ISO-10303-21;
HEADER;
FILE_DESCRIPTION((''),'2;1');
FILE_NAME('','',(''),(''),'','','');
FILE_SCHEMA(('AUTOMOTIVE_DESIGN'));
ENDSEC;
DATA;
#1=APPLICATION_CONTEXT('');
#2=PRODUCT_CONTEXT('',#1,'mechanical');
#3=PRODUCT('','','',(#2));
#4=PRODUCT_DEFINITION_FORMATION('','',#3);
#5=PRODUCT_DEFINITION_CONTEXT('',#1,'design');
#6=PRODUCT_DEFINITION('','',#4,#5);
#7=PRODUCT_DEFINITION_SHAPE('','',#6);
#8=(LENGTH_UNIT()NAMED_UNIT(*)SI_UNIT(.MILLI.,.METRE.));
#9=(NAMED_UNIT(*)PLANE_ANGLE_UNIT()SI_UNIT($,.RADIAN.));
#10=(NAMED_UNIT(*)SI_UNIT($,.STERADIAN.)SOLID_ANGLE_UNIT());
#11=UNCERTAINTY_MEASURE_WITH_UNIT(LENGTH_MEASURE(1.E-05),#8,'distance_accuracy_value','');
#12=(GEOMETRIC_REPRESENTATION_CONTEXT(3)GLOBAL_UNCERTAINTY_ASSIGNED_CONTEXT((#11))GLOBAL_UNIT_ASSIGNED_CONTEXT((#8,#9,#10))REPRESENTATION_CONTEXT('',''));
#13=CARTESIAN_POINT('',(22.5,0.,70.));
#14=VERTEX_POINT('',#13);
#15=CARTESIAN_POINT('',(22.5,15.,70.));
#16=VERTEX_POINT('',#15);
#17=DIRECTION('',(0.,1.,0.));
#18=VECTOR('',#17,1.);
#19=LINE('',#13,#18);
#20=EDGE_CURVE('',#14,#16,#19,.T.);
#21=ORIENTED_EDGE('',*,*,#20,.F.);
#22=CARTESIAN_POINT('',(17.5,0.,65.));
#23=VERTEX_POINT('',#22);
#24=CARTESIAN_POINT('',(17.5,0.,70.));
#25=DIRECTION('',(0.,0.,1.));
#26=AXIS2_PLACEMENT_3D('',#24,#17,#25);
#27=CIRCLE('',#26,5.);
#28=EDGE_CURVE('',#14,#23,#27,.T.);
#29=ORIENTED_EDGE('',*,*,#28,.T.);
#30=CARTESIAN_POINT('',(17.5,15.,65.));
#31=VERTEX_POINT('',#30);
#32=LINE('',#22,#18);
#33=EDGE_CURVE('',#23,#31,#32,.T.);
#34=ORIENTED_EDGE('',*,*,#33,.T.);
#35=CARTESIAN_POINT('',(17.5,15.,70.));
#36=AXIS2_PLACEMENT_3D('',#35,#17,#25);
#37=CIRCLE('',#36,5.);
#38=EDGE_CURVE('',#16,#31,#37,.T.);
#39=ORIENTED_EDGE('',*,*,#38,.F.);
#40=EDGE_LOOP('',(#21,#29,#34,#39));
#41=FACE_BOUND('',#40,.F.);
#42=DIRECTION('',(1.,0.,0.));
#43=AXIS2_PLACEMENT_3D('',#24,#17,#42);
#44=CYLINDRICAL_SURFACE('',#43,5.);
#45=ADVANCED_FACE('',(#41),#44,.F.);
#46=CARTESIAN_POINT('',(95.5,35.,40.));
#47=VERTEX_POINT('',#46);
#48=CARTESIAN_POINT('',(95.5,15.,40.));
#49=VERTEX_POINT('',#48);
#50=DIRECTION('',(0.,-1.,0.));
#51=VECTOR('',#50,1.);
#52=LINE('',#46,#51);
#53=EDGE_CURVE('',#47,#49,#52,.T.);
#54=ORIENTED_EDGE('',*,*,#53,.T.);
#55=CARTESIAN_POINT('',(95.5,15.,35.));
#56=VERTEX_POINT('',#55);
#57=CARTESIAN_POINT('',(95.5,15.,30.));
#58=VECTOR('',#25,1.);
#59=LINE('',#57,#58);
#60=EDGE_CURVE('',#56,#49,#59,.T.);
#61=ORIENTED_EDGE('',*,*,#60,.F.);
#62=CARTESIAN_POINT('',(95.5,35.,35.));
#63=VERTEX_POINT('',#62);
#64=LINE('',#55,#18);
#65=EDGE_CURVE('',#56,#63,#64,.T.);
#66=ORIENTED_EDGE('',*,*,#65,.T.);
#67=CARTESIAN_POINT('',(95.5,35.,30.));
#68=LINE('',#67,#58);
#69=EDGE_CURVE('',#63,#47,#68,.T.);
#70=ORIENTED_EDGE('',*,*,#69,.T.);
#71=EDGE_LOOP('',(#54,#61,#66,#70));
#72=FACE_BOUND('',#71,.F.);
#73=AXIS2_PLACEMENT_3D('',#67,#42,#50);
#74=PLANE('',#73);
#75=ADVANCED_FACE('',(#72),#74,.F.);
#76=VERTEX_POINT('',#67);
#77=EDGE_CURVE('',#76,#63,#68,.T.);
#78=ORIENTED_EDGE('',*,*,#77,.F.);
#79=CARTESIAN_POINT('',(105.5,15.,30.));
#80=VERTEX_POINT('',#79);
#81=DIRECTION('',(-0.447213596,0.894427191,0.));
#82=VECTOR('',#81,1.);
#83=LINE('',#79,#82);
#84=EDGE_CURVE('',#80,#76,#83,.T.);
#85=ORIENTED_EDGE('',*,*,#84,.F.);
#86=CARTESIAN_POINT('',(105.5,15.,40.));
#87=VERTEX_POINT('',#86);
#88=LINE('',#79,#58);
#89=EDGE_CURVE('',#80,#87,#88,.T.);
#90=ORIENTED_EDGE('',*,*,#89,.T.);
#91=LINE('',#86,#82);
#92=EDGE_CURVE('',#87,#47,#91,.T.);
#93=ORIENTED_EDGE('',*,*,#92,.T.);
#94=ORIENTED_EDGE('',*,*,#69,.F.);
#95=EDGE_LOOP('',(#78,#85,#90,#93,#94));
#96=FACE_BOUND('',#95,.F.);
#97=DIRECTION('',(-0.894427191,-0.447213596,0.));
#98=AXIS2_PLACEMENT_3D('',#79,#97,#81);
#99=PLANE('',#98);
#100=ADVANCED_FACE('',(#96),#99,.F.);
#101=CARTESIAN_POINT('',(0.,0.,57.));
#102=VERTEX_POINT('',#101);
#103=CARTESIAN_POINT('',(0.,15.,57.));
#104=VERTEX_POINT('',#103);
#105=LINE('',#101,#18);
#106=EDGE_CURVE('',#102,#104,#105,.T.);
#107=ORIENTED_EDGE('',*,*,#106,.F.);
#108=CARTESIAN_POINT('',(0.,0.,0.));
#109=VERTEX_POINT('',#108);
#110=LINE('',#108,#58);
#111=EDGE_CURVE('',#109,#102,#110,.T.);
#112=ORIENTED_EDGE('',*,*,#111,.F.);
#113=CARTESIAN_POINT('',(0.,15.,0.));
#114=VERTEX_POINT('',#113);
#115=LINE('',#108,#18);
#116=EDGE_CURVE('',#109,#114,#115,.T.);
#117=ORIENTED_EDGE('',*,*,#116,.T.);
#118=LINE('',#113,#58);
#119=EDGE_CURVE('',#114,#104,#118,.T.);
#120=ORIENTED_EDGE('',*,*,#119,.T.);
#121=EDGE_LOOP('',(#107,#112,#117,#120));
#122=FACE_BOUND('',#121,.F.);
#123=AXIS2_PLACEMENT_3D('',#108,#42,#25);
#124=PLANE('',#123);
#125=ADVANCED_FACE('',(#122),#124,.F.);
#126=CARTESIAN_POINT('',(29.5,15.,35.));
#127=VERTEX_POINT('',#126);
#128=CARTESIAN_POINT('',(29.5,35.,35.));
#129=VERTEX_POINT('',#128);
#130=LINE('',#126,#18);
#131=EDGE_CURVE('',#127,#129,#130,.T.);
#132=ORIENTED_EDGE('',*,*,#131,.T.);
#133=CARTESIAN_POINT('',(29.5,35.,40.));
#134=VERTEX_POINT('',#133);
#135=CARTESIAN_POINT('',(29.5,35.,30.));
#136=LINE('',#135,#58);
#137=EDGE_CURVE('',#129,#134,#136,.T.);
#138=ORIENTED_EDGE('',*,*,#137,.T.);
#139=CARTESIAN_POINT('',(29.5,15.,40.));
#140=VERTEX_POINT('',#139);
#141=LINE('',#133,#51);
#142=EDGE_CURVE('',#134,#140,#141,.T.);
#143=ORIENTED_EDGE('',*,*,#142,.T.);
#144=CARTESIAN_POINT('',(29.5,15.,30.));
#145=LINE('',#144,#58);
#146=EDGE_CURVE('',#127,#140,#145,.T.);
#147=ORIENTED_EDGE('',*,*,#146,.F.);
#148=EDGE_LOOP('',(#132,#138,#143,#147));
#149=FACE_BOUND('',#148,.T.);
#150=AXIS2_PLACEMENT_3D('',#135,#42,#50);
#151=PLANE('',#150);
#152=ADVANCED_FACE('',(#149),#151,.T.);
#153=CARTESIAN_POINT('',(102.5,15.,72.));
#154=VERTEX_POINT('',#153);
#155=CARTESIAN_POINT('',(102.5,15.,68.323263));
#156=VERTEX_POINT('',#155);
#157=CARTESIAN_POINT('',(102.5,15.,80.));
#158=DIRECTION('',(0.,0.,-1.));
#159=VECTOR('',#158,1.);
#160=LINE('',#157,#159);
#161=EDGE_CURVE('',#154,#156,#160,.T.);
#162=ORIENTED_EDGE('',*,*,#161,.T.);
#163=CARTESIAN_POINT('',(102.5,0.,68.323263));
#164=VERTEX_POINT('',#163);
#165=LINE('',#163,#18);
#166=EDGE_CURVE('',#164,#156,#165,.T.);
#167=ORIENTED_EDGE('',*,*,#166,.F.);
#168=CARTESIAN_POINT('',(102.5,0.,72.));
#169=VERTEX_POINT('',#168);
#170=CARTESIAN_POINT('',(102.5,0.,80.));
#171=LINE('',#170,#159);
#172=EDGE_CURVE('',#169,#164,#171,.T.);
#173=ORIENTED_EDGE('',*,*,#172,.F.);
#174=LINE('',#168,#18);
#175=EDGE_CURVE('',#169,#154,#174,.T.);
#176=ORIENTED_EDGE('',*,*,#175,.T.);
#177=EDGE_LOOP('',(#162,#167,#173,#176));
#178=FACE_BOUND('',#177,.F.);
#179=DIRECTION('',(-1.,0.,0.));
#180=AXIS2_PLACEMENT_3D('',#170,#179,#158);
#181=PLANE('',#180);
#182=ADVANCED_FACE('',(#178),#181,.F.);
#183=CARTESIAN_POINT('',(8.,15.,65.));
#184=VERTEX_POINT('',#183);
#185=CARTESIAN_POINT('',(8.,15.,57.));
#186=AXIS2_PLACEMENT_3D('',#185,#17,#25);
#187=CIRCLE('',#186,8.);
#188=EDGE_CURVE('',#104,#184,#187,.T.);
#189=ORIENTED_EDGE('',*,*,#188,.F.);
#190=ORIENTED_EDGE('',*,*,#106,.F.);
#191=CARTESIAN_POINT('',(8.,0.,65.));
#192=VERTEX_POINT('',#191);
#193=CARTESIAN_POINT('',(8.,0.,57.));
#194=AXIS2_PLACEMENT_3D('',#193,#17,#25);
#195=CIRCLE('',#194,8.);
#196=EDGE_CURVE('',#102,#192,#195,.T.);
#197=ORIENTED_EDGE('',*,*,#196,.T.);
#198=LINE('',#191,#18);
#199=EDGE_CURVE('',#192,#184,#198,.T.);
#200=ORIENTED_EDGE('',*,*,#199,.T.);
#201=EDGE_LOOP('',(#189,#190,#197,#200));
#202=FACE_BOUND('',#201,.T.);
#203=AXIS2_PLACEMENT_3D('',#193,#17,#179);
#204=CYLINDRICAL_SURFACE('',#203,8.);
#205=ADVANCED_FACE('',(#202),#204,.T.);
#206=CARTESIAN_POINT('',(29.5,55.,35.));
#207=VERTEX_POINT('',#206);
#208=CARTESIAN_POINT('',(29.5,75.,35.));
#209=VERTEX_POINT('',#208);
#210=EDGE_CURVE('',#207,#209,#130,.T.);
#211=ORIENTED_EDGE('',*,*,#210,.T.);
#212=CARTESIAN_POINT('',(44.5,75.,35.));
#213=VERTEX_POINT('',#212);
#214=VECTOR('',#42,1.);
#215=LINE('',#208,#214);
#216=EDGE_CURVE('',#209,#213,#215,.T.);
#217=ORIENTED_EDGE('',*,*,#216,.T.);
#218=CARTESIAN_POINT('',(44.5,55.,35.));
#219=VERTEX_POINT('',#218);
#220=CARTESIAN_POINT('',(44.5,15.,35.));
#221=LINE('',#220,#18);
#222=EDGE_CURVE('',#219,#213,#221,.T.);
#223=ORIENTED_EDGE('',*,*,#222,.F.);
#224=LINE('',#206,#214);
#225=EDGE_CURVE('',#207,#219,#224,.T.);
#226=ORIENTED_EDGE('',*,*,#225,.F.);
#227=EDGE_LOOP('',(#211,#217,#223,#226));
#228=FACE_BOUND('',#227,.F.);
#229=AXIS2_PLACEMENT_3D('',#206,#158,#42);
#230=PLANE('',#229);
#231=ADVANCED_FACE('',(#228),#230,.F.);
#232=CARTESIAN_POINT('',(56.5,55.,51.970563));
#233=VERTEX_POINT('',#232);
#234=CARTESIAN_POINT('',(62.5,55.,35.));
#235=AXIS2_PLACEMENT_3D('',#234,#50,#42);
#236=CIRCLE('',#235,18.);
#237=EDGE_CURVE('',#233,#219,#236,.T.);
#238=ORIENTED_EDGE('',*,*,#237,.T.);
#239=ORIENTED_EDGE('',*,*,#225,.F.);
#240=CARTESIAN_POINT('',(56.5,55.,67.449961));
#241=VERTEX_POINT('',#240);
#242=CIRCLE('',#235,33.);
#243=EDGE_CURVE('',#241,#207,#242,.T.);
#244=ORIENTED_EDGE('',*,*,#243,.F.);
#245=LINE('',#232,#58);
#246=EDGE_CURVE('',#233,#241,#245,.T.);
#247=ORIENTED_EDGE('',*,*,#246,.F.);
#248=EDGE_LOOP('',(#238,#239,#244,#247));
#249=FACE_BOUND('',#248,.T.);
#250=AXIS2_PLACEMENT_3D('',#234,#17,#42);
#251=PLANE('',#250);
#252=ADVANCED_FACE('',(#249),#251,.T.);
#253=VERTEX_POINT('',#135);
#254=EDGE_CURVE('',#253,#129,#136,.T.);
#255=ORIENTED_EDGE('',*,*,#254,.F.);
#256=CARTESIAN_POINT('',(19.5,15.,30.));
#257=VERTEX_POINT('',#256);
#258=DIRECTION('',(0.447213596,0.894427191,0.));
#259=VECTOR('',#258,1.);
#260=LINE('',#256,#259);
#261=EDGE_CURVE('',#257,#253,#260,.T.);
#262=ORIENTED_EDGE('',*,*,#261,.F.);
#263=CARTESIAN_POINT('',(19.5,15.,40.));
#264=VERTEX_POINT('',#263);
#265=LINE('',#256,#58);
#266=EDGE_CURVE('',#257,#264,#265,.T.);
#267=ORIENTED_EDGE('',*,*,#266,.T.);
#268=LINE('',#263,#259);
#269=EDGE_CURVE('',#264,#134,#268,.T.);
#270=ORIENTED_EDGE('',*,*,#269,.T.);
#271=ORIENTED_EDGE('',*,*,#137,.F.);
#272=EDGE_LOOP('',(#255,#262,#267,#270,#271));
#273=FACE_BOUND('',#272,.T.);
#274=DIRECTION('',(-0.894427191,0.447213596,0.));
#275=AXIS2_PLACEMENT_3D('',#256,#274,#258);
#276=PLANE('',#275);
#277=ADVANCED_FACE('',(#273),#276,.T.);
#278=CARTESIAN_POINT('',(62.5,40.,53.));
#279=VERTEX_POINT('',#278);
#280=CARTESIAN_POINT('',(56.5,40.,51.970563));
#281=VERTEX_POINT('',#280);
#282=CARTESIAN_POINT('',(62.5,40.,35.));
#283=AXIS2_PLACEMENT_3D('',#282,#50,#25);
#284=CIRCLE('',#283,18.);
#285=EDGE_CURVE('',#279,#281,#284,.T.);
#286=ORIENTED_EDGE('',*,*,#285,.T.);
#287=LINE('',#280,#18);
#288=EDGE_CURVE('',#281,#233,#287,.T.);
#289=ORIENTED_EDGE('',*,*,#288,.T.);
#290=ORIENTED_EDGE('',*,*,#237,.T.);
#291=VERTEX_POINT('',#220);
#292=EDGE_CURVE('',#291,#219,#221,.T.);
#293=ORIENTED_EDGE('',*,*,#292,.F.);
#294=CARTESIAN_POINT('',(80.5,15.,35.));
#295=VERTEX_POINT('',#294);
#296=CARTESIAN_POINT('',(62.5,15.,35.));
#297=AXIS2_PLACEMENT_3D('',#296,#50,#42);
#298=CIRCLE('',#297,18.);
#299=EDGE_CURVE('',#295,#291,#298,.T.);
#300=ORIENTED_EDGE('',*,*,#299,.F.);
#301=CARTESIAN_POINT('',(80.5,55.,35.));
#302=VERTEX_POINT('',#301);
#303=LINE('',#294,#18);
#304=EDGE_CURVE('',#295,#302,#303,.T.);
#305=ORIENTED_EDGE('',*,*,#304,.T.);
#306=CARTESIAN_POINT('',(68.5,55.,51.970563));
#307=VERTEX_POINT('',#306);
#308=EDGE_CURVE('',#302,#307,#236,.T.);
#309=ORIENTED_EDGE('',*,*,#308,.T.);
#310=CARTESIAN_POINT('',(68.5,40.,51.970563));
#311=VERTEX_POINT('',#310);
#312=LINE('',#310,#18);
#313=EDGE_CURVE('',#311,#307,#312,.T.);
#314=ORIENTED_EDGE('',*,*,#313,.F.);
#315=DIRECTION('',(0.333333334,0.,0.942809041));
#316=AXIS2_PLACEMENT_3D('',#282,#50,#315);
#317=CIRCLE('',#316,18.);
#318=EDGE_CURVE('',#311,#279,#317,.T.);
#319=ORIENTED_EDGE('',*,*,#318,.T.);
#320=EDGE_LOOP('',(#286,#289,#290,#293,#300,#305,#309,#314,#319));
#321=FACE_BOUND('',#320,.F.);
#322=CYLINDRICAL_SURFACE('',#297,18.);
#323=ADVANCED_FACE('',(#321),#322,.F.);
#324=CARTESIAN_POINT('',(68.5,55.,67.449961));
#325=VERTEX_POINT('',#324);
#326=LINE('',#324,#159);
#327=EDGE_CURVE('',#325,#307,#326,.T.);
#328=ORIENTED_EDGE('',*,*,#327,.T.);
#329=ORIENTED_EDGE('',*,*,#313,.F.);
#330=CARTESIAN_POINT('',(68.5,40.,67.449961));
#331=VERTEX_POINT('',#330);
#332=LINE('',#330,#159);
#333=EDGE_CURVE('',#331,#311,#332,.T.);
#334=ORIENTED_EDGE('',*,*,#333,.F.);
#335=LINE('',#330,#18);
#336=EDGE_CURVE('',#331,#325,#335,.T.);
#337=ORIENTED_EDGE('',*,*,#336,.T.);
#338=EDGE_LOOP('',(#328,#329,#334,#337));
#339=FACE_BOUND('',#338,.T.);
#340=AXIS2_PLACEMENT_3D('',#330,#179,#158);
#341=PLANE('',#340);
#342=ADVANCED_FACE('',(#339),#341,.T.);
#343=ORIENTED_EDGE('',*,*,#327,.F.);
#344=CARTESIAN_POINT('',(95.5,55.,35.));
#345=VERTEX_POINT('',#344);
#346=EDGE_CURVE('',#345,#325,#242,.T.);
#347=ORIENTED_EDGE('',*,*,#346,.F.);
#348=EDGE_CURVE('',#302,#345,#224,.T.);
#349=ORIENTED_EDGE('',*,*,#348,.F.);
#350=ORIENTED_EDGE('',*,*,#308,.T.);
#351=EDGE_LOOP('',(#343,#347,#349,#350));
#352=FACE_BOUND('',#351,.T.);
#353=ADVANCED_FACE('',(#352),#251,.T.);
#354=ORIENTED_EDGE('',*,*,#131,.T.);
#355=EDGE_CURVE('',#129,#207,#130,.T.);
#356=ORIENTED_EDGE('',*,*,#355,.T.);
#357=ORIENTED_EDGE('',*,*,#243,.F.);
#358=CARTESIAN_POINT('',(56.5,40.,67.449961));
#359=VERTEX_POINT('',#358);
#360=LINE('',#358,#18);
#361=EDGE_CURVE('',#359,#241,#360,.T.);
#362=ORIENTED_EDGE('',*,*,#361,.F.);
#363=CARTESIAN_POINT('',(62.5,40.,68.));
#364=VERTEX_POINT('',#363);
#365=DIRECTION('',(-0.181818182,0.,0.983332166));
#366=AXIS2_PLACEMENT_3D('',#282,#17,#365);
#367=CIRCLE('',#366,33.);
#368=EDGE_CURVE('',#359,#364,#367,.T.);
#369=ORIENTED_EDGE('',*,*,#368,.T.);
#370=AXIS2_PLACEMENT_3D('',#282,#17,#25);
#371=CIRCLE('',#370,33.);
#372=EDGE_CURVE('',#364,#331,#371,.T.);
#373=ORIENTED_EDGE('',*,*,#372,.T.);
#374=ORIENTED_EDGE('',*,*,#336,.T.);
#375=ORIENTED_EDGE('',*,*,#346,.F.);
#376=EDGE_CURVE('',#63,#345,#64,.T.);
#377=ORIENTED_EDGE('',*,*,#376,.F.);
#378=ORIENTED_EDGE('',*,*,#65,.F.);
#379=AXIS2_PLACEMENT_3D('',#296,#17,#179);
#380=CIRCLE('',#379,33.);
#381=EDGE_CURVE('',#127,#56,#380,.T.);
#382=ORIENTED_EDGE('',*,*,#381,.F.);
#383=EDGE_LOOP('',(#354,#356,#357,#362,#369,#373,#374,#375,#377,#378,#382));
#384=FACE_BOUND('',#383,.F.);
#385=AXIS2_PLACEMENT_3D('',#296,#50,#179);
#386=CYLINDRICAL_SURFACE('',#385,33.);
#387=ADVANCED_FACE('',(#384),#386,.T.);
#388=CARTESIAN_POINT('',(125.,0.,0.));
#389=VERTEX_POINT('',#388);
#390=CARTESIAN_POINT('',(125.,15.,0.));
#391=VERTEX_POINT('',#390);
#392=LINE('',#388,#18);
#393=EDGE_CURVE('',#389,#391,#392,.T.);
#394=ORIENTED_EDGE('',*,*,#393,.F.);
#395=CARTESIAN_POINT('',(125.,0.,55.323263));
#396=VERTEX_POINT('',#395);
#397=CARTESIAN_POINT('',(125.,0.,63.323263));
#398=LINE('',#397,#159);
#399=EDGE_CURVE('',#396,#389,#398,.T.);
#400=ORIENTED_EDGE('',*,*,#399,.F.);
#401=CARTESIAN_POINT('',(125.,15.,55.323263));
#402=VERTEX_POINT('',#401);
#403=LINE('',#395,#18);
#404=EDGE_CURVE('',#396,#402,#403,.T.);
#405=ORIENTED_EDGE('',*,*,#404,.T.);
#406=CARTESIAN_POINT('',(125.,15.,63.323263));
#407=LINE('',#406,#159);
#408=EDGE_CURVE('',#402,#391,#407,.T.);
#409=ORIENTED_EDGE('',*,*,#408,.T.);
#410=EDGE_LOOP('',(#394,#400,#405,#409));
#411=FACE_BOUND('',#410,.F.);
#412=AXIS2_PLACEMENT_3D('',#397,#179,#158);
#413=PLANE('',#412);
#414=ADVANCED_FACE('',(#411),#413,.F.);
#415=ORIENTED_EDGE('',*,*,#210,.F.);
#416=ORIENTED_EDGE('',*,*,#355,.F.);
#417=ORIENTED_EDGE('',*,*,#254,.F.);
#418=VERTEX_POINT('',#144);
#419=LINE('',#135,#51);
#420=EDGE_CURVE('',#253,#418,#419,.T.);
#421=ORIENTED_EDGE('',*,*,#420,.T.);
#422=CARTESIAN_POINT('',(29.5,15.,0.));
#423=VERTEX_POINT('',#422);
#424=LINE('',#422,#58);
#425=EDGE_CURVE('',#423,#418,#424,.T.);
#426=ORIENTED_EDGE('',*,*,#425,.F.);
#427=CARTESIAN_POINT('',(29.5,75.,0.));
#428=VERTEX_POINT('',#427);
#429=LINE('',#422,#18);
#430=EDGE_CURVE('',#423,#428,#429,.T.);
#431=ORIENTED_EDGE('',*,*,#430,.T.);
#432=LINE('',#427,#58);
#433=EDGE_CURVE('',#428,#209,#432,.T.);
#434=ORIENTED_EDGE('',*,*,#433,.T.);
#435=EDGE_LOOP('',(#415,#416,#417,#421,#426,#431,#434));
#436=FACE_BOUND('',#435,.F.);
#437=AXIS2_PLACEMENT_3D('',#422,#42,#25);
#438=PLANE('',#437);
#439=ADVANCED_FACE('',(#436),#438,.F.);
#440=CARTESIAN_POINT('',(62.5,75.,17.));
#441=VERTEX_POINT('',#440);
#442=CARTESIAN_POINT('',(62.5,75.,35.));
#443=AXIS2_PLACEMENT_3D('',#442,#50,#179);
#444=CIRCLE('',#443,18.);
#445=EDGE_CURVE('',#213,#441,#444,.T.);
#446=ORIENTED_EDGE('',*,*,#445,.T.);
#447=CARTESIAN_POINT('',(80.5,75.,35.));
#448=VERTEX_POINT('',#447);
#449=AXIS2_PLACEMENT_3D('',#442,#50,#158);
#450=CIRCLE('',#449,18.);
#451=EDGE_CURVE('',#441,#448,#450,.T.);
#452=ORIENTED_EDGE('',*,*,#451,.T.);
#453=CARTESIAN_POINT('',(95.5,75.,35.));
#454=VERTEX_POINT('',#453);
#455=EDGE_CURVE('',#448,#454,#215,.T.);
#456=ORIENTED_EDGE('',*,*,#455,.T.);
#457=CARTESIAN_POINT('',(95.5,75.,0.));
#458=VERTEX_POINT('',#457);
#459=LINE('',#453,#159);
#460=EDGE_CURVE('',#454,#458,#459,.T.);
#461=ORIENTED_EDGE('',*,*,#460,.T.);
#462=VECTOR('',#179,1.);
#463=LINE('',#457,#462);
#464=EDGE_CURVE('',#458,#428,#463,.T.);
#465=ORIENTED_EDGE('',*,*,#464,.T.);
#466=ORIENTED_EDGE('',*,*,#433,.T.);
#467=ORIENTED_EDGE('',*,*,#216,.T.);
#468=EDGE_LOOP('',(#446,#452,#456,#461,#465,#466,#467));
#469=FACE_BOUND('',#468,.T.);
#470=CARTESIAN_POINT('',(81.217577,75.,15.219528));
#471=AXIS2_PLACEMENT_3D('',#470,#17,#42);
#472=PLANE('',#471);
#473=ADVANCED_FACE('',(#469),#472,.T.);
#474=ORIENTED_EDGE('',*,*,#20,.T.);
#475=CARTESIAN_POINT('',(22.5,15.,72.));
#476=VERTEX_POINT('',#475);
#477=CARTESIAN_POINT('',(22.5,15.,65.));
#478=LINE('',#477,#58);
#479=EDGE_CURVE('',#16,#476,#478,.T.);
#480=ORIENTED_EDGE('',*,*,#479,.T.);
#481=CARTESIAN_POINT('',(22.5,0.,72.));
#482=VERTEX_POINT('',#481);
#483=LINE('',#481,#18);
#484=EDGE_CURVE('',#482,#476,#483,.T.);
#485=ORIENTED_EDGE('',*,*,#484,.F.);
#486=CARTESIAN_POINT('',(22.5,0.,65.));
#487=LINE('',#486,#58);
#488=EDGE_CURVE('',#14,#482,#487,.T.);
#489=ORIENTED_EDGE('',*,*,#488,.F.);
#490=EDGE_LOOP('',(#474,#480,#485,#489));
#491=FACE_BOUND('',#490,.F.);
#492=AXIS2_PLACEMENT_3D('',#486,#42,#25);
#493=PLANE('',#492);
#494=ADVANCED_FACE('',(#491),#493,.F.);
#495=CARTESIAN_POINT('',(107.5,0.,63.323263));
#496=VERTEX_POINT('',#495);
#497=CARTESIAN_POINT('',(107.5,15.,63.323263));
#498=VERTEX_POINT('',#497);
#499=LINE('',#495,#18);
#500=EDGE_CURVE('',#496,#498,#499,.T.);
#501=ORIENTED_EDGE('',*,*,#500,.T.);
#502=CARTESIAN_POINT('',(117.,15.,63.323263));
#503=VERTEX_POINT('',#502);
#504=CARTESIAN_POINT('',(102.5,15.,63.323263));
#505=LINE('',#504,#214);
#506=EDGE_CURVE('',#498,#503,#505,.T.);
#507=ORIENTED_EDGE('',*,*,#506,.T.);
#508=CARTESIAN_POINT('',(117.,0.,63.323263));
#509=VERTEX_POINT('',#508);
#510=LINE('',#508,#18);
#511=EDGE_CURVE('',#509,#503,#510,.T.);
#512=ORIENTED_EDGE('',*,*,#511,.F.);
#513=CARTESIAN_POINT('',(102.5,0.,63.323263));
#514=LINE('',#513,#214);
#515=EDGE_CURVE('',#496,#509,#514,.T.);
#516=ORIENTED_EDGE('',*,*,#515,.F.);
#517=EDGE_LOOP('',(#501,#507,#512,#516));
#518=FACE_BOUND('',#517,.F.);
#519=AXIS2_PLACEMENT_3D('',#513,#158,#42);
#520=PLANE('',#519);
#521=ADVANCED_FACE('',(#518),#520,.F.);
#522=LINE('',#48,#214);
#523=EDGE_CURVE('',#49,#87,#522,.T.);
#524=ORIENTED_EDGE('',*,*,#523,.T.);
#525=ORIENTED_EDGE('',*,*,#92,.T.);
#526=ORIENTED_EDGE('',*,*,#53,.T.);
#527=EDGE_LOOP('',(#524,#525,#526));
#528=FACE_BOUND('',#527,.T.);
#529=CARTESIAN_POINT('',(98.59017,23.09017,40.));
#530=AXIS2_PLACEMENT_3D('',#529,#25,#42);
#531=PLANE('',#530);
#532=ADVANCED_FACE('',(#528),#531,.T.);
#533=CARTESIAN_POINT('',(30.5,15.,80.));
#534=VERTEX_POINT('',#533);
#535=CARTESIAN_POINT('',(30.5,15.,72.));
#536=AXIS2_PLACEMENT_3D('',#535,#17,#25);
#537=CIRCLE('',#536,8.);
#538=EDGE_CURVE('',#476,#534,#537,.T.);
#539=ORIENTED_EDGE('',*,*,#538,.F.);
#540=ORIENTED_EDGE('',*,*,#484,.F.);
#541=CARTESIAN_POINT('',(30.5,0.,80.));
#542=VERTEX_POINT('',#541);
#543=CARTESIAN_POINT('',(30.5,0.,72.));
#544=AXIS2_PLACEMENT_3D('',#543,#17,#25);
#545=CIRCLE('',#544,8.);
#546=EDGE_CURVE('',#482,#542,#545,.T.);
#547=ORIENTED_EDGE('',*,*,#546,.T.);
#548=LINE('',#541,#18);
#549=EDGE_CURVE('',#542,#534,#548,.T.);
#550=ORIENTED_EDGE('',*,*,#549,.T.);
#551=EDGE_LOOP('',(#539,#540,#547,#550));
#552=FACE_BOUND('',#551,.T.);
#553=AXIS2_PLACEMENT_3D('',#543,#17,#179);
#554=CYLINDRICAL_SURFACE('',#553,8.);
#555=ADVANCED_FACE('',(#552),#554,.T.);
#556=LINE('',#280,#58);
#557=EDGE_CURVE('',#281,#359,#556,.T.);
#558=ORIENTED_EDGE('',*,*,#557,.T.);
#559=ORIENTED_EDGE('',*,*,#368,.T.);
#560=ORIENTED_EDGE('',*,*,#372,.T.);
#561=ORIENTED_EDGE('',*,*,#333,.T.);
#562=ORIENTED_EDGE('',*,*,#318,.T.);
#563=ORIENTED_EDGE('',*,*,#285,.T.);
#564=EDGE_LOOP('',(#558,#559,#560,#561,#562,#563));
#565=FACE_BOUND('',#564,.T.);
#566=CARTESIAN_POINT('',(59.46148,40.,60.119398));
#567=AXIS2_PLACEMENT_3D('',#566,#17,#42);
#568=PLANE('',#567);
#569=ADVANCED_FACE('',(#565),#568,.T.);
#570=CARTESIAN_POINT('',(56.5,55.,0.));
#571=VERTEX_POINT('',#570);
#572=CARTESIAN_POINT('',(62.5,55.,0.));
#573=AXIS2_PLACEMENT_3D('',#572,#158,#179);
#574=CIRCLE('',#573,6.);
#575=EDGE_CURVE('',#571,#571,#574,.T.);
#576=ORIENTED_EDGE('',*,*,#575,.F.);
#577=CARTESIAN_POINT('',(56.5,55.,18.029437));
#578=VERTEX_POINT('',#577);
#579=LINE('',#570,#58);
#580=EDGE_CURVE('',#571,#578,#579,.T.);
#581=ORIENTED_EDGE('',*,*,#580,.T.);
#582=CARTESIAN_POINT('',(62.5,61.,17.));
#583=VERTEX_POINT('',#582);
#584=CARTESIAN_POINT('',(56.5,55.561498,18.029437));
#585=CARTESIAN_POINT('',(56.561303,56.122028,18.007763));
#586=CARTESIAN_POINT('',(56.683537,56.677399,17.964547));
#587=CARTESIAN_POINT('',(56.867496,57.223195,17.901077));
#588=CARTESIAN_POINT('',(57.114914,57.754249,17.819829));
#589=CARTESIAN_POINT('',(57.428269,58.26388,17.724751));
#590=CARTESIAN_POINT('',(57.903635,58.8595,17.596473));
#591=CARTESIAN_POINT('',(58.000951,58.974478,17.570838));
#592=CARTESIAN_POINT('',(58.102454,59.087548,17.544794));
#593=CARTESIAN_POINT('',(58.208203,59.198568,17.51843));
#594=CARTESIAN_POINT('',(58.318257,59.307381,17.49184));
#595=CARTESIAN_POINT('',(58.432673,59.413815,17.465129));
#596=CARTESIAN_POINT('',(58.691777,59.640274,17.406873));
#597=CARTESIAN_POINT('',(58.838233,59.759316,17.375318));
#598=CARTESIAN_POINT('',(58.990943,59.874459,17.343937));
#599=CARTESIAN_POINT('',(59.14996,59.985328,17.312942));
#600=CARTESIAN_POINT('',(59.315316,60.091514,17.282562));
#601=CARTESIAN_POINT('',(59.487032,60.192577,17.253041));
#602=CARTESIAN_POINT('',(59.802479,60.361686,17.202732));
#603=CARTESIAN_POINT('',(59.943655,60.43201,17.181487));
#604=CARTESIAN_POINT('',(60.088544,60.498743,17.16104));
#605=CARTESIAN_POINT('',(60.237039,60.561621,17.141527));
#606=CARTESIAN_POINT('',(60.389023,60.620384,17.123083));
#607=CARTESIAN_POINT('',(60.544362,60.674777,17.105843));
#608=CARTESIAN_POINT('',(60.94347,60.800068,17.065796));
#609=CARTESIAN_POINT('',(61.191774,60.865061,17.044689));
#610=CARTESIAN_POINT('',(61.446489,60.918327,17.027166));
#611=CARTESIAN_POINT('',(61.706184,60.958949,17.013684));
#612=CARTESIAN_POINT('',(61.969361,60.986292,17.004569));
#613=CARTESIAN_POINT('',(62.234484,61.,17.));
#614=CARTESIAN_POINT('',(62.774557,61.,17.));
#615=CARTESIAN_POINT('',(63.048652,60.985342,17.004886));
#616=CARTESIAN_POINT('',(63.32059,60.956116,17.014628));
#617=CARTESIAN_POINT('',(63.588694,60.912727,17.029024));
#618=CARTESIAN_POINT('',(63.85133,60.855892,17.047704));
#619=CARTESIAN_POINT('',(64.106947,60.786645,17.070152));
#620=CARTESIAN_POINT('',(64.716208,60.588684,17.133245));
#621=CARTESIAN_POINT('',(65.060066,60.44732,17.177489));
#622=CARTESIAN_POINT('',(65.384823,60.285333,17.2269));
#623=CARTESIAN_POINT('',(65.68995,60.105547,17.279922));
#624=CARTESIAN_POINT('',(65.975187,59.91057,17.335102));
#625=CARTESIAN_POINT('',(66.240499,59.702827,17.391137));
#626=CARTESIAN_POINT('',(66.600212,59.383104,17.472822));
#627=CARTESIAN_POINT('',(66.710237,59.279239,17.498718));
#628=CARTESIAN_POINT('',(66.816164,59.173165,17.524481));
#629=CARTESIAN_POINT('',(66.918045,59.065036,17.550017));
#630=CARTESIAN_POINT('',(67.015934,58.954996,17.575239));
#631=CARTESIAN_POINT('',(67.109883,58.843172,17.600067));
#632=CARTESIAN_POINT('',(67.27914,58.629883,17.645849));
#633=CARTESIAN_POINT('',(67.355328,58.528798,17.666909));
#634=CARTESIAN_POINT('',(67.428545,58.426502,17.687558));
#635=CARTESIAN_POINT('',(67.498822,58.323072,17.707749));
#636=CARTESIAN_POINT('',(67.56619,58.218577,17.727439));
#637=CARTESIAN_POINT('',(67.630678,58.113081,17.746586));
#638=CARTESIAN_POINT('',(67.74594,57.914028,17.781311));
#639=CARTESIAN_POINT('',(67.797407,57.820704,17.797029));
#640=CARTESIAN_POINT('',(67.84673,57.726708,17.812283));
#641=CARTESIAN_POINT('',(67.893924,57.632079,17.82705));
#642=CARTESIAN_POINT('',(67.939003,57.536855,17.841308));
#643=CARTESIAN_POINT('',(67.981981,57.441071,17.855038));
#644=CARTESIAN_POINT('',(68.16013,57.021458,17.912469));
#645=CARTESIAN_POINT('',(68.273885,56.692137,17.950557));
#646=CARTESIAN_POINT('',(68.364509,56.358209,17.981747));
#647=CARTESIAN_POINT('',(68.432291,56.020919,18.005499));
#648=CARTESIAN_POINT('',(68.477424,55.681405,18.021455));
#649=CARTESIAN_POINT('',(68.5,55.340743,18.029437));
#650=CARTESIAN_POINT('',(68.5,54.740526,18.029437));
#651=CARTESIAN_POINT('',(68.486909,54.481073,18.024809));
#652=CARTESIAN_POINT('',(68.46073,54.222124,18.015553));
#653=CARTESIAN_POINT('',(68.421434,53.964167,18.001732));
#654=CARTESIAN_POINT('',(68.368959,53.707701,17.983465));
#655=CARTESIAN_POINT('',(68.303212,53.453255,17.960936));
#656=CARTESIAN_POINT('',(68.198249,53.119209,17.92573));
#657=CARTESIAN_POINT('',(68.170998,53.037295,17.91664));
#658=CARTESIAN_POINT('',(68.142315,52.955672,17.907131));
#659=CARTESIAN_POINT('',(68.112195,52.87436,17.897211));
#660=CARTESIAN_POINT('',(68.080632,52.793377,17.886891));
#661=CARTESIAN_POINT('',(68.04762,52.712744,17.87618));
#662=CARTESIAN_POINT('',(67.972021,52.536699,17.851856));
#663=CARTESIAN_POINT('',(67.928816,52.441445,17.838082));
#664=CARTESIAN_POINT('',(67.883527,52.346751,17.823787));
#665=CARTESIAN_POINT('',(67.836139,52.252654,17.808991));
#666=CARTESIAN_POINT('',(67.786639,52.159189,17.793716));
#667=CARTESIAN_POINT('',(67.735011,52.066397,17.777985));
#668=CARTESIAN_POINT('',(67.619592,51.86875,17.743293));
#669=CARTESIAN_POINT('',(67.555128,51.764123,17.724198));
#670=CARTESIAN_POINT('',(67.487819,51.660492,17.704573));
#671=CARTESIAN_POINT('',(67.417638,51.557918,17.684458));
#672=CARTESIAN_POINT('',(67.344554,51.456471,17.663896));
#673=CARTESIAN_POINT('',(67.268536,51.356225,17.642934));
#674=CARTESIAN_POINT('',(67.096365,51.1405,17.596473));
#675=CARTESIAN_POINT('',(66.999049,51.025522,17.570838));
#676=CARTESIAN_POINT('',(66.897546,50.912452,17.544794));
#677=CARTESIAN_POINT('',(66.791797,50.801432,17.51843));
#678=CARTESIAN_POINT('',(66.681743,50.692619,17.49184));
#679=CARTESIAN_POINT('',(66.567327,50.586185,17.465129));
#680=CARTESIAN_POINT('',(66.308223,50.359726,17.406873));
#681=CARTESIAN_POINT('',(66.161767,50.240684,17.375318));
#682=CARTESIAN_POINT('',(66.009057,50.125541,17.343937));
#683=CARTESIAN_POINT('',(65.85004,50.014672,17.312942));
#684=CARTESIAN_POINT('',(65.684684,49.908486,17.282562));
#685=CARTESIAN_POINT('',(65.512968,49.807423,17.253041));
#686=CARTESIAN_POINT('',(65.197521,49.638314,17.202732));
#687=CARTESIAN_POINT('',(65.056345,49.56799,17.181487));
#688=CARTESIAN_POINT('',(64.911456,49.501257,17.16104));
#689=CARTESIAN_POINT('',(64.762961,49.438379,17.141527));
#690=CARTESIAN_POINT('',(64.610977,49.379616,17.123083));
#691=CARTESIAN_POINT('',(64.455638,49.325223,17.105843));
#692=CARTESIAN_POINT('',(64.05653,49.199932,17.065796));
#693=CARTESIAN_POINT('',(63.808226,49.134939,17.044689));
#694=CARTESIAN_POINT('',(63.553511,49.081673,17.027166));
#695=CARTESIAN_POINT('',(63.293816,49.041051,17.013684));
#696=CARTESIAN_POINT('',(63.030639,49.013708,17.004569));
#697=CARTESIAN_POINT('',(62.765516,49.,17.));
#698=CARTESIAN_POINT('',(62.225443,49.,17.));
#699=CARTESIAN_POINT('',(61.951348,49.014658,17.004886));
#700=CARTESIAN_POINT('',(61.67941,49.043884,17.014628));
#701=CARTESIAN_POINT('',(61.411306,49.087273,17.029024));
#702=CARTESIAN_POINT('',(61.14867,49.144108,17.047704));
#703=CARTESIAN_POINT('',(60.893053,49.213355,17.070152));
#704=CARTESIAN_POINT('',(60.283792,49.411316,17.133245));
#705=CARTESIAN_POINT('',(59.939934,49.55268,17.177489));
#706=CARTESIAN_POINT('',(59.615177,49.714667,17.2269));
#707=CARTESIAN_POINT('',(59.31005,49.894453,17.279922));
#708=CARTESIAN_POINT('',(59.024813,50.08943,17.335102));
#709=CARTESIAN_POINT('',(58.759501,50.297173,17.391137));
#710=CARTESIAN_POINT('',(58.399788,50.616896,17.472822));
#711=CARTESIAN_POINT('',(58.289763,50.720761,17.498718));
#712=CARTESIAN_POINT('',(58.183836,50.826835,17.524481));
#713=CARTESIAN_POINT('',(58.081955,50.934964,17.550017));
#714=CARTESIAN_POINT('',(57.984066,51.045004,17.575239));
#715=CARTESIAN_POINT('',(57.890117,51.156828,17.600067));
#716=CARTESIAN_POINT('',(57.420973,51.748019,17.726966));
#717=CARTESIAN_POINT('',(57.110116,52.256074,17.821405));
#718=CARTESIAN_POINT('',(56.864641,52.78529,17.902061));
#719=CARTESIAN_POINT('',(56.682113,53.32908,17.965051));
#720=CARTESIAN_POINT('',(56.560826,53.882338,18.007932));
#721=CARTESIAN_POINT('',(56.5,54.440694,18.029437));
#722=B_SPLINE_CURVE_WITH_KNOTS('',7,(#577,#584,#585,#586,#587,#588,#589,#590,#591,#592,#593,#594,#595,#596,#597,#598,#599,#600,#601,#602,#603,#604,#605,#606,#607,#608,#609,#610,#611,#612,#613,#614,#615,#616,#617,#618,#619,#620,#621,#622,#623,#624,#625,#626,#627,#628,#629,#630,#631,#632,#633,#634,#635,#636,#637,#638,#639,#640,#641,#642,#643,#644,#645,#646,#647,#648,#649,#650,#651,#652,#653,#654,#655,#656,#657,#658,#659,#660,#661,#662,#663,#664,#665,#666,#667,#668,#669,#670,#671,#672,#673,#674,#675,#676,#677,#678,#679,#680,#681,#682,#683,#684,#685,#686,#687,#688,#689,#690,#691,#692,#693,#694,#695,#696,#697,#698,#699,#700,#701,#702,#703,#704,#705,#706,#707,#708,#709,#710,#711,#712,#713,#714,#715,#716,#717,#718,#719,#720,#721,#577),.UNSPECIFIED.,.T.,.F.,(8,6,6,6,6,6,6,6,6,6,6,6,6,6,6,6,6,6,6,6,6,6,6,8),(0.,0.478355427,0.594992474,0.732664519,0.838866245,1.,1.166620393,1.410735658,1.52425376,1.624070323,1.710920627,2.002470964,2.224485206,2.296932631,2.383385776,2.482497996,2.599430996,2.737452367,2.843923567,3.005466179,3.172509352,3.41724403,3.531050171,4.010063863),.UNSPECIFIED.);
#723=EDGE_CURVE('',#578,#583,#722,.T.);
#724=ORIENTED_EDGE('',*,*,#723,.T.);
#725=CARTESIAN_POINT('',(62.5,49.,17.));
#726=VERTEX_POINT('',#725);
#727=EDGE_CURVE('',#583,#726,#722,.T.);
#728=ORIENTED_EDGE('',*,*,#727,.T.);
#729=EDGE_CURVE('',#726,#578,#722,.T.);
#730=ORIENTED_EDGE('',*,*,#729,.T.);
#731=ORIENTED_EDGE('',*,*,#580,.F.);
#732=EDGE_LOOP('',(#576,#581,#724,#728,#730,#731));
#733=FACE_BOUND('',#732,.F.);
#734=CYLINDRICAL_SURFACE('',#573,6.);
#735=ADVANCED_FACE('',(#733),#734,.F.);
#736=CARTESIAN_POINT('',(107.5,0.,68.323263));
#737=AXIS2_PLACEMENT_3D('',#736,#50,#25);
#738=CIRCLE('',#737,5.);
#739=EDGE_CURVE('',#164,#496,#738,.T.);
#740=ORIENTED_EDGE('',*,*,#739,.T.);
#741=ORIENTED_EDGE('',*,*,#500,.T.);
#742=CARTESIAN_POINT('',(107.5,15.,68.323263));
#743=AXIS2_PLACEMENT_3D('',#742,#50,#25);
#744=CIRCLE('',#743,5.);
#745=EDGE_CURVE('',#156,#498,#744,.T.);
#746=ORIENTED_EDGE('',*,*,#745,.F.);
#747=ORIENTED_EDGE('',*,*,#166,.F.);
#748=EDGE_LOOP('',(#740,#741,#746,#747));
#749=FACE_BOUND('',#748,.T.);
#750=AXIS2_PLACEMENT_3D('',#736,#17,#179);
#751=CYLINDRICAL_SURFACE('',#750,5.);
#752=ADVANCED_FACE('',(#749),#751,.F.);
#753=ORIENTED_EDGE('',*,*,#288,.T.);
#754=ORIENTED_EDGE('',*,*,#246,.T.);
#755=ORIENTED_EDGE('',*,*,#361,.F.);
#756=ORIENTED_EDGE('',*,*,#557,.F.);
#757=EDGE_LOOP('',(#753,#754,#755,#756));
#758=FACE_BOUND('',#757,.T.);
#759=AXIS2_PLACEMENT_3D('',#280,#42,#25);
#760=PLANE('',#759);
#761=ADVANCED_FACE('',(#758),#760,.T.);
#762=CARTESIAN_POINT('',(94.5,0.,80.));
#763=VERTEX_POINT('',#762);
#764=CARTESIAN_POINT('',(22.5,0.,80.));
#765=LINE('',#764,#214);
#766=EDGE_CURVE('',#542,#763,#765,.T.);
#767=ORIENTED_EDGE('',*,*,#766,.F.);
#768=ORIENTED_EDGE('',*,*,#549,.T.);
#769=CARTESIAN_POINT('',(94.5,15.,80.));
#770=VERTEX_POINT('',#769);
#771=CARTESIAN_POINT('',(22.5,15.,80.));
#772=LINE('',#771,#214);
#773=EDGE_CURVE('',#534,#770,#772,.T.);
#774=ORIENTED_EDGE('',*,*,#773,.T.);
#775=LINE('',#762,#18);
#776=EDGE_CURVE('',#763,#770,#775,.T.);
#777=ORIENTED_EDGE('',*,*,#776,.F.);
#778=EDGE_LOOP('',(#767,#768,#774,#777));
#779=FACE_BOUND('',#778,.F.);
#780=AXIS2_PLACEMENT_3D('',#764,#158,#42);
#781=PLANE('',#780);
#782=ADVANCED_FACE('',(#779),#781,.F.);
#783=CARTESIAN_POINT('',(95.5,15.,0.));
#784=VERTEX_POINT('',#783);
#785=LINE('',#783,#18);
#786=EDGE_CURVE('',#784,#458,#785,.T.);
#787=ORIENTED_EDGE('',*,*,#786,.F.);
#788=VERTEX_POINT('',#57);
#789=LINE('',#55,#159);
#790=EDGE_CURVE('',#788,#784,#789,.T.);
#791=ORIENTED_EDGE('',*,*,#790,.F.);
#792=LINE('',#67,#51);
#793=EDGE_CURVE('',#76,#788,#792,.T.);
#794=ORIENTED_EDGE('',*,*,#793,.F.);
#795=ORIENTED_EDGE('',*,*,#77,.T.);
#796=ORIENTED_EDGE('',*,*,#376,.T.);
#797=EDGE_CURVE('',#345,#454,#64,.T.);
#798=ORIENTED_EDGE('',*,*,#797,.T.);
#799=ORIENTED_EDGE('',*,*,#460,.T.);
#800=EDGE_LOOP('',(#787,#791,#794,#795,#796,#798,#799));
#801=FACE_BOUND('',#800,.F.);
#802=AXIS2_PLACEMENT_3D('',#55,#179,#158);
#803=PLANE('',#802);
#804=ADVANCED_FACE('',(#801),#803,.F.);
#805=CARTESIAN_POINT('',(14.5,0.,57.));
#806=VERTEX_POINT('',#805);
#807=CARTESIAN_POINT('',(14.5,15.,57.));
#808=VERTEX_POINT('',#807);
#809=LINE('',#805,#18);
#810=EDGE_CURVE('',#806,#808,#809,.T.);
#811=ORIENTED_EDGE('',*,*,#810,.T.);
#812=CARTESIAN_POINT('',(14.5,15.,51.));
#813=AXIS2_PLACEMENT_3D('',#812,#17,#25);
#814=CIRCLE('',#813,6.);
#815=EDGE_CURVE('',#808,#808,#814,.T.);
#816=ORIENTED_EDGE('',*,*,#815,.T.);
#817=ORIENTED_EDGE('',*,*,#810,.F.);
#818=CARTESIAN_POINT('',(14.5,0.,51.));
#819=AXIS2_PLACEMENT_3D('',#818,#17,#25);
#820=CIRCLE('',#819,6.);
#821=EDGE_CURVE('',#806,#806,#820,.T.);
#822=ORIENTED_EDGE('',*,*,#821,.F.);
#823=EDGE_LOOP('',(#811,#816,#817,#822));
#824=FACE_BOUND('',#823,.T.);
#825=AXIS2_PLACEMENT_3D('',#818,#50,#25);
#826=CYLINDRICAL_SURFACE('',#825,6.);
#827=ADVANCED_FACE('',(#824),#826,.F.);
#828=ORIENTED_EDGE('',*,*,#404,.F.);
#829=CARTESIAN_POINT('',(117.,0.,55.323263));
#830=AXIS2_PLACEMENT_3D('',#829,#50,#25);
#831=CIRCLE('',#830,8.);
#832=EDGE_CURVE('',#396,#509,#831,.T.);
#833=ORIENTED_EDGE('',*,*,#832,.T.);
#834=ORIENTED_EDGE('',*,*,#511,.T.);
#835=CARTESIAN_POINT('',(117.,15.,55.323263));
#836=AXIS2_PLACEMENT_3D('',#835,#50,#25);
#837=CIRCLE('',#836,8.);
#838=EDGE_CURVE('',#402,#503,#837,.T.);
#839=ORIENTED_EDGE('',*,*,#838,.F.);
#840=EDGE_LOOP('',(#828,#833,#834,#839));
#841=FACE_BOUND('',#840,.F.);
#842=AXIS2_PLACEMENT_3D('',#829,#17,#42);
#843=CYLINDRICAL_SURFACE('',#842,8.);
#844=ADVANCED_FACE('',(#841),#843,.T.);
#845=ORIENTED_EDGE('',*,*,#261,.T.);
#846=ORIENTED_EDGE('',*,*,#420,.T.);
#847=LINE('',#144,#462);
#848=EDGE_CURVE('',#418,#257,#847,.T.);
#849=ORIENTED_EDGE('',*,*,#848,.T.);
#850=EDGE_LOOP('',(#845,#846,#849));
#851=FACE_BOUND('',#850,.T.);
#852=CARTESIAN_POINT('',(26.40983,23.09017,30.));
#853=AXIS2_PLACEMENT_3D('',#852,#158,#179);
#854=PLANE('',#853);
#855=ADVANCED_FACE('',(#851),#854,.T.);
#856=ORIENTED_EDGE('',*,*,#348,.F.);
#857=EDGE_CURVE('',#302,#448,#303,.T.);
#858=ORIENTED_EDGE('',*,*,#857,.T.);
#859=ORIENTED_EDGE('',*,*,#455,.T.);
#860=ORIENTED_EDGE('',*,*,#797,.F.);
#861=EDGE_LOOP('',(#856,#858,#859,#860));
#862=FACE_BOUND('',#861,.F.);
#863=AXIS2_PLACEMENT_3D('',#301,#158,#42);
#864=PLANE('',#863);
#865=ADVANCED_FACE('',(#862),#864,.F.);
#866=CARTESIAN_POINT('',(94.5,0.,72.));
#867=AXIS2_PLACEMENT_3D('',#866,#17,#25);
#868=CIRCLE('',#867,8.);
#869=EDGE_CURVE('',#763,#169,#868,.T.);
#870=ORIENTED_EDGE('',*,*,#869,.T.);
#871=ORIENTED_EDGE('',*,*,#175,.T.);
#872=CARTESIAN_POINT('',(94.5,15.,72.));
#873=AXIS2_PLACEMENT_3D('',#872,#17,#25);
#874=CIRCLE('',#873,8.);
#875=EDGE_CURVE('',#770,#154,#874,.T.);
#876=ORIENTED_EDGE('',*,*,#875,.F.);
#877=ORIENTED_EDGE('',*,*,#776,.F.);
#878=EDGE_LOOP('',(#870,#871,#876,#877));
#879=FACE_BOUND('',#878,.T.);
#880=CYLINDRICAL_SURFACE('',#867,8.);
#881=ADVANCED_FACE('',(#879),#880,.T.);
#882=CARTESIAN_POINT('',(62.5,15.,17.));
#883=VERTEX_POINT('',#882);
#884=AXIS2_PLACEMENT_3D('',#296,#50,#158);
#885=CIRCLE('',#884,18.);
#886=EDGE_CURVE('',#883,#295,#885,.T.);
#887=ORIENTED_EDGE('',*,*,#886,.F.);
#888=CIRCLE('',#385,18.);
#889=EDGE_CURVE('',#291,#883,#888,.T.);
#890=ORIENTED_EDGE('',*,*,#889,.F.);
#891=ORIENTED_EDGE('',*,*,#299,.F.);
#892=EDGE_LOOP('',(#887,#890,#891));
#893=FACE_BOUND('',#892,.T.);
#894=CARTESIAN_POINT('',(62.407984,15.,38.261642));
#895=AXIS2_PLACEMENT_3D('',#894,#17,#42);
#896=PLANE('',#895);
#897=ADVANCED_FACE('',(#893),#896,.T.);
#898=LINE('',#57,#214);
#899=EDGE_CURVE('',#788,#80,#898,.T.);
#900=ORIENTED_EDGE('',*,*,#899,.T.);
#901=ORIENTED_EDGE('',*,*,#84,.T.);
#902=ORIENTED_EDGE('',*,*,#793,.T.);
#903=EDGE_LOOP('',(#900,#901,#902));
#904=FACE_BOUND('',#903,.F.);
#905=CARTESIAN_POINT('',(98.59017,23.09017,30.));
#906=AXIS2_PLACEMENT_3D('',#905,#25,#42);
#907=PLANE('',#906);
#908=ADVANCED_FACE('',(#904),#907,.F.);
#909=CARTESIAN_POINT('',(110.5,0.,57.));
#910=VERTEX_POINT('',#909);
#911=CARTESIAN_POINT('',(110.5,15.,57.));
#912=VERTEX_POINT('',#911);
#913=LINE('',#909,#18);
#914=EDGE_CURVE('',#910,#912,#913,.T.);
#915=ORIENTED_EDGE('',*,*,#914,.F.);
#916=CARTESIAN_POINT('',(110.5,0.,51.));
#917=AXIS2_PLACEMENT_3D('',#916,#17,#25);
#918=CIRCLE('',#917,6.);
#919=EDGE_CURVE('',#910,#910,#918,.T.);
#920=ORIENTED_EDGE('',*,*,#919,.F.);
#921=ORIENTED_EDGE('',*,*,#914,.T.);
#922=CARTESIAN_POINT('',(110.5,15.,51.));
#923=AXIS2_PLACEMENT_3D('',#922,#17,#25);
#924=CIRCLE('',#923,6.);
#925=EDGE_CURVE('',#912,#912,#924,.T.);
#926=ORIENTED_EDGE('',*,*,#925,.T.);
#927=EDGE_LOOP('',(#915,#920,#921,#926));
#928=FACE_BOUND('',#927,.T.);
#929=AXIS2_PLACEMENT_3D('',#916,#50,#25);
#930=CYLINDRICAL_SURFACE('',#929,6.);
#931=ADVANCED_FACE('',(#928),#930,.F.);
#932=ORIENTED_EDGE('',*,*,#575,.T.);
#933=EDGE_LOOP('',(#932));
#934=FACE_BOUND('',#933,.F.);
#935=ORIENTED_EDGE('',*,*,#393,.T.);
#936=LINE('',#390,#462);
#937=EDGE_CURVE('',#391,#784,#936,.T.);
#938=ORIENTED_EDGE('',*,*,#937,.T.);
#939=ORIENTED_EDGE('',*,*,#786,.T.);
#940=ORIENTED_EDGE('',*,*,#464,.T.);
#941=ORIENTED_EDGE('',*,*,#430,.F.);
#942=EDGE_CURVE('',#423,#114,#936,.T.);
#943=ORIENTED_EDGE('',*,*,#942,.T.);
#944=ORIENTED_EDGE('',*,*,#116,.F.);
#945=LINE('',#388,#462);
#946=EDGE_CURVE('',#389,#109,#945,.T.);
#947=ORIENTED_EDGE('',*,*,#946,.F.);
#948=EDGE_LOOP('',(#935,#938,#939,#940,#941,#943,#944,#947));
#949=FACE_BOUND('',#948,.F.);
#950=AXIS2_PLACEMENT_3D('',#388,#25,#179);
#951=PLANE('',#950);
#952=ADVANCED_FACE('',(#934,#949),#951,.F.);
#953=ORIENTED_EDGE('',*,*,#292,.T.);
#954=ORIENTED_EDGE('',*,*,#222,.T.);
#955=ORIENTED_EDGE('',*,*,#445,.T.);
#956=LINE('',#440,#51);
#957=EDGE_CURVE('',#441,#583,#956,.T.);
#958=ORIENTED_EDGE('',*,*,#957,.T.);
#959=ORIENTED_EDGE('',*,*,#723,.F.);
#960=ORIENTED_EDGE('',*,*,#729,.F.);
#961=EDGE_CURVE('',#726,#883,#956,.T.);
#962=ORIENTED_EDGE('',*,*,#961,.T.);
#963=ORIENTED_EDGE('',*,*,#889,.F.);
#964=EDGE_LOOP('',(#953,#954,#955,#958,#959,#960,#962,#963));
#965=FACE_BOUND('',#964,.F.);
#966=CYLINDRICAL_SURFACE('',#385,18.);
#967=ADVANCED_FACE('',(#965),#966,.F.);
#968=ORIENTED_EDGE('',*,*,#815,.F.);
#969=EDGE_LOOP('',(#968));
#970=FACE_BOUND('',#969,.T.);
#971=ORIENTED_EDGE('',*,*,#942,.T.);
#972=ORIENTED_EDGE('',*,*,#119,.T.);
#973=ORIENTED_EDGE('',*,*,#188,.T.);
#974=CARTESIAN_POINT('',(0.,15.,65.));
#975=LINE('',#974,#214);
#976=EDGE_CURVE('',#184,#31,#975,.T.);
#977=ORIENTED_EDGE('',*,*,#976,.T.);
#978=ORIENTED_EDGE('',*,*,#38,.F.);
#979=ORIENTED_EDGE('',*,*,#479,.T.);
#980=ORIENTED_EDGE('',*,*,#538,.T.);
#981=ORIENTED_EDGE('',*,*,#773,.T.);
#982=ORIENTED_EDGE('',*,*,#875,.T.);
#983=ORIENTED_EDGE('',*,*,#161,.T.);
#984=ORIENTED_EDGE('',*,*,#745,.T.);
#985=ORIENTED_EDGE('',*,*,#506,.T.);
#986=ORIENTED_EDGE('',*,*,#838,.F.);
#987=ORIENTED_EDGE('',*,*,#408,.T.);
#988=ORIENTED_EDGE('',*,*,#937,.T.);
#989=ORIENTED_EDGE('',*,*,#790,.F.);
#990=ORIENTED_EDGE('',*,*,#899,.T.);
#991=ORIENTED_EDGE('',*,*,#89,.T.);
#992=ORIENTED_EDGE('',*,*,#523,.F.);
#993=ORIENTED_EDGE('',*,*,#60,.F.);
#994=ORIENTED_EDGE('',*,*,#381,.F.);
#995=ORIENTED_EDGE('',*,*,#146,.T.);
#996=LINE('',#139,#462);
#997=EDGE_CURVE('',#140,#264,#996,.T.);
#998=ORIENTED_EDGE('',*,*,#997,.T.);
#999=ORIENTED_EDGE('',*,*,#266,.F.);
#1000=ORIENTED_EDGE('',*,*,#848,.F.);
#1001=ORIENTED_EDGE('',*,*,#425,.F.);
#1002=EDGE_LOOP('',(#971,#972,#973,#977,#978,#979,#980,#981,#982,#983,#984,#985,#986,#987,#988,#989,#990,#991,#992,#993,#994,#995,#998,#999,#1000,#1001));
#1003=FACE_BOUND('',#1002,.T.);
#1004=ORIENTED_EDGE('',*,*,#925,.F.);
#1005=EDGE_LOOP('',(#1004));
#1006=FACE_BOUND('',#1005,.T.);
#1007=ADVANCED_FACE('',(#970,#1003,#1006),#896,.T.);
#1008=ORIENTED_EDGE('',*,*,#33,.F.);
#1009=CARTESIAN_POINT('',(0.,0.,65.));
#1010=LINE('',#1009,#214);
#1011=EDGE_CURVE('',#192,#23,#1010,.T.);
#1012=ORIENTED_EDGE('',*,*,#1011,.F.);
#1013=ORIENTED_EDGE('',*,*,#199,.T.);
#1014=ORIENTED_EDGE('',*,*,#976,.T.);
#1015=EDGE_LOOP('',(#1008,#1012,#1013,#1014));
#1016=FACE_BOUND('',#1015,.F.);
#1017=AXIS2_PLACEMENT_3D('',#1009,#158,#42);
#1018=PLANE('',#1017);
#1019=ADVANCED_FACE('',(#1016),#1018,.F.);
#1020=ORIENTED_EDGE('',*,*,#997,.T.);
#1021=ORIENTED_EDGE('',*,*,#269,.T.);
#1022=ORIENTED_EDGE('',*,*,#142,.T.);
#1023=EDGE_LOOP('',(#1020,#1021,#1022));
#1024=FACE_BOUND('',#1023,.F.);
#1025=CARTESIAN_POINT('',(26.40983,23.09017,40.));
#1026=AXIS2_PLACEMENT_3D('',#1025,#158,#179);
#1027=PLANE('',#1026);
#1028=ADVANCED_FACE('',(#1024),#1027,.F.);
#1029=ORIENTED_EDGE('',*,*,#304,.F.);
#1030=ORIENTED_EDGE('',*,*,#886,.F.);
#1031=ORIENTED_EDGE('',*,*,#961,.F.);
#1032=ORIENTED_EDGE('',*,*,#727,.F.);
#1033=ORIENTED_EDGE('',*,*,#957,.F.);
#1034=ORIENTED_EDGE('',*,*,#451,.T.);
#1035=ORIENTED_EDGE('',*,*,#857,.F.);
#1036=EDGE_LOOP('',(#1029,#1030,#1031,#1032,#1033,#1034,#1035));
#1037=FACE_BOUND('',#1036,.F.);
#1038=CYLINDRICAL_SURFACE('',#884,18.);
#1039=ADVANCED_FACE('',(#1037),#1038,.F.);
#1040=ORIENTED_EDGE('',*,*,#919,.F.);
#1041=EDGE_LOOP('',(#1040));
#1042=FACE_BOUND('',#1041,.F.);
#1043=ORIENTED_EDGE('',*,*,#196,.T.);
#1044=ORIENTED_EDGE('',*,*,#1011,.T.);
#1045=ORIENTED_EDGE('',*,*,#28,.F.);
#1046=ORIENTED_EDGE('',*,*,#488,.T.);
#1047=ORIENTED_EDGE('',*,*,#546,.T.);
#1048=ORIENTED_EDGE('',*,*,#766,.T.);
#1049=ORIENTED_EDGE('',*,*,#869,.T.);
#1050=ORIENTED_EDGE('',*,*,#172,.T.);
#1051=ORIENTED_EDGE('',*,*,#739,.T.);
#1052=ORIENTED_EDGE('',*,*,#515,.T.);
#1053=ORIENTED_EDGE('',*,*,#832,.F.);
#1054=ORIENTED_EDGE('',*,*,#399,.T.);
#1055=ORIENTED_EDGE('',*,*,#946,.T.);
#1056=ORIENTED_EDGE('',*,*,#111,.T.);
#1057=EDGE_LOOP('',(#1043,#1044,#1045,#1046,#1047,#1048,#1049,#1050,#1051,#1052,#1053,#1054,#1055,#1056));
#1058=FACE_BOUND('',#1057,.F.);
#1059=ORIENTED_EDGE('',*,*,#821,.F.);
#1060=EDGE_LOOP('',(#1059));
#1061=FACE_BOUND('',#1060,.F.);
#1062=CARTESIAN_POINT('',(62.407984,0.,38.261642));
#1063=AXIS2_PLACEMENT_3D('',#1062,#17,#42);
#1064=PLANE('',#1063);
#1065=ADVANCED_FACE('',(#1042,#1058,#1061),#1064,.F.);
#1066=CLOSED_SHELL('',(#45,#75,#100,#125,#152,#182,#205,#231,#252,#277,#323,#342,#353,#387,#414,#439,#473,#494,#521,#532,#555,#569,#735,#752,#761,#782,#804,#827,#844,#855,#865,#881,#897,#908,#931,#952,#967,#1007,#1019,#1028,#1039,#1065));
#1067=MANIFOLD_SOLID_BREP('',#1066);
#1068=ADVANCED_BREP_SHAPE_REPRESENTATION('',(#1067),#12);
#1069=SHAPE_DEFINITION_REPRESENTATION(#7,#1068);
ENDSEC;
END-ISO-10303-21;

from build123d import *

# Parameters (mm, degrees)
SKETCH_1_R               = 6
EXTRUDE_1_DEPTH          = 15
FILLET_1_R               = 8
FILLET_2_R               = 8
FILLET_3_R               = 5
EXTRUDE_3_DEPTH          = 60
CUT_EXTRUDE_START        = -20
SKETCH_5_R               = 18
CUT_EXTRUDE_1_DEPTH      = 20
CUT_EXTRUDE_START_2      = -15
CUT_EXTRUDE_2_DEPTH      = 15
CUT_EXTRUDE_3_REACH      = 168.283
CUT_EXTRUDE_3_END_RADIUS = 18
SKETCH_7_R               = 6
EXTRUDE_4_DEPTH          = 10


with BuildPart() as part:
    # 草图1 → 凸台-拉伸1 (new body)
    with BuildSketch(Plane(origin=(0, 0, 0), x_dir=(1, 0, 0), z_dir=(0, 1, 0))):
        Polygon((0, 0), (0, -65), (22.5, -65), (22.5, -80), (102.5, -80), (102.5, -63.32326284), (125, -63.32326284), (125, 0), align=None)
        with Locations(Location((14.5, -51, 0), (0, 0, 270))):
            Circle(SKETCH_1_R, mode=Mode.SUBTRACT)
        with Locations(Location((110.5, -51, 0), (0, 0, 270))):
            Circle(SKETCH_1_R, mode=Mode.SUBTRACT)
    extrude(amount=EXTRUDE_1_DEPTH)

    # 圆角1
    fillet_1_edges = [part.edges().sort_by_distance(p)[0] for p in [
        (125, 7.5, 63.32326284),
        (0, 7.5, 65),
    ]]
    fillet(fillet_1_edges, radius=FILLET_1_R)

    # 圆角2
    fillet_2_edges = [part.edges().sort_by_distance(p)[0] for p in [
        (102.5, 7.5, 80),
        (22.5, 7.5, 80),
    ]]
    fillet(fillet_2_edges, radius=FILLET_2_R)

    # 圆角3
    fillet_3_edges = [part.edges().sort_by_distance(p)[0] for p in [
        (102.5, 7.5, 63.32326284),
        (22.5, 7.5, 65),
    ]]
    fillet(fillet_3_edges, radius=FILLET_3_R)

    # 草图2 → 凸台-拉伸3 (add)
    with BuildSketch(Plane(origin=(0, 15, 0), x_dir=(1, 0, 0), z_dir=(0, 1, 0))):
        with BuildLine():
            Line((95.5, 0), (62.5, 0))
            Line((62.5, 0), (62.5, -17))
            ThreePointArc((62.5, -17), (75.227922061, -22.272077939), (80.5, -35))
            Line((80.5, -35), (95.5, -35))
            Line((95.5, -35), (95.5, 0))
        make_face()
        with BuildLine():
            Line((62.5, -17), (62.5, 0))
            Line((62.5, 0), (29.5, 0))
            Line((29.5, 0), (29.5, -35))
            Line((29.5, -35), (44.5, -35))
            ThreePointArc((44.5, -35), (49.772077939, -22.272077939), (62.5, -17))
        make_face()
        with BuildLine():
            Line((95.5, -35), (80.5, -35))
            ThreePointArc((80.5, -35), (62.5, -53), (44.5, -35))
            Line((44.5, -35), (29.5, -35))
            ThreePointArc((29.5, -35), (62.5, -68), (95.5, -35))
        make_face()
    extrude(amount=EXTRUDE_3_DEPTH)

    # 草图5 → 切除-拉伸1 (cut)
    with BuildSketch(Plane(origin=(0, 75, 0), x_dir=(1, 0, 0), z_dir=(0, 1, 0)).offset(CUT_EXTRUDE_START)):
        with Locations((62.5, -35)):
            Circle(SKETCH_5_R)
        with BuildLine():
            Line((29.5, -35), (95.5, -35))
            ThreePointArc((95.5, -35), (62.5, -68), (29.5, -35))
        make_face()
    extrude(amount=CUT_EXTRUDE_1_DEPTH, mode=Mode.SUBTRACT)

    # 草图6 → 切除-拉伸2 (cut)
    with BuildSketch(Plane(origin=(0, 55, 0), x_dir=(1, 0, 0), z_dir=(0, 1, 0)).offset(CUT_EXTRUDE_START_2)):
        with BuildLine():
            Line((56.5, -51.970562748), (56.5, -67.449961479))
            ThreePointArc((56.5, -67.449961479), (59.487420442, -67.862202671), (62.5, -68))
            Line((62.5, -68), (62.5, -53))
            ThreePointArc((62.5, -53), (59.456164383, -52.740774074), (56.5, -51.970562748))
        make_face()
        with BuildLine():
            Line((62.5, -53), (62.5, -68))
            ThreePointArc((62.5, -68), (65.512579558, -67.862202671), (68.5, -67.449961479))
            Line((68.5, -67.449961479), (68.5, -51.970562748))
            ThreePointArc((68.5, -51.970562748), (65.543835617, -52.740774074), (62.5, -53))
        make_face()
    extrude(amount=CUT_EXTRUDE_2_DEPTH, mode=Mode.SUBTRACT)

    # 切除-拉伸3: up to this cylinder (the profile starts outside it)
    cut_extrude_3_end = Plane(origin=(62.5, 55, 35), z_dir=(0, -1, 0)) * Cylinder(CUT_EXTRUDE_3_END_RADIUS, 373.566, mode=Mode.PRIVATE)
    # 草图7 → 切除-拉伸3 (cut, up to the surface)
    with BuildSketch(Plane(origin=(0, 0, 0), x_dir=(-1, 0, 0), z_dir=(0, 0, -1)), mode=Mode.PRIVATE) as cut_extrude_3_sk1:
        with Locations((-62.5, 55)):
            Circle(SKETCH_7_R)
    cut_extrude_3_tool1 = extrude(cut_extrude_3_sk1.sketch, amount=-CUT_EXTRUDE_3_REACH, mode=Mode.PRIVATE) - cut_extrude_3_end
    add(cut_extrude_3_tool1.solids().sort_by_distance((62.5, 55, 0))[0], mode=Mode.SUBTRACT)

    # 草图10 → 凸台-拉伸4 (add)
    with BuildSketch(Plane(origin=(0, 0, 30), x_dir=(-1, 0, 0), z_dir=(0, 0, -1))):
        Polygon((-95.5, 15), (-105.5, 15), (-95.5, 35), align=None)
        Polygon((-19.5, 15), (-29.5, 35), (-29.5, 15), align=None)
    extrude(amount=-EXTRUDE_4_DEPTH)


solid = part.part
